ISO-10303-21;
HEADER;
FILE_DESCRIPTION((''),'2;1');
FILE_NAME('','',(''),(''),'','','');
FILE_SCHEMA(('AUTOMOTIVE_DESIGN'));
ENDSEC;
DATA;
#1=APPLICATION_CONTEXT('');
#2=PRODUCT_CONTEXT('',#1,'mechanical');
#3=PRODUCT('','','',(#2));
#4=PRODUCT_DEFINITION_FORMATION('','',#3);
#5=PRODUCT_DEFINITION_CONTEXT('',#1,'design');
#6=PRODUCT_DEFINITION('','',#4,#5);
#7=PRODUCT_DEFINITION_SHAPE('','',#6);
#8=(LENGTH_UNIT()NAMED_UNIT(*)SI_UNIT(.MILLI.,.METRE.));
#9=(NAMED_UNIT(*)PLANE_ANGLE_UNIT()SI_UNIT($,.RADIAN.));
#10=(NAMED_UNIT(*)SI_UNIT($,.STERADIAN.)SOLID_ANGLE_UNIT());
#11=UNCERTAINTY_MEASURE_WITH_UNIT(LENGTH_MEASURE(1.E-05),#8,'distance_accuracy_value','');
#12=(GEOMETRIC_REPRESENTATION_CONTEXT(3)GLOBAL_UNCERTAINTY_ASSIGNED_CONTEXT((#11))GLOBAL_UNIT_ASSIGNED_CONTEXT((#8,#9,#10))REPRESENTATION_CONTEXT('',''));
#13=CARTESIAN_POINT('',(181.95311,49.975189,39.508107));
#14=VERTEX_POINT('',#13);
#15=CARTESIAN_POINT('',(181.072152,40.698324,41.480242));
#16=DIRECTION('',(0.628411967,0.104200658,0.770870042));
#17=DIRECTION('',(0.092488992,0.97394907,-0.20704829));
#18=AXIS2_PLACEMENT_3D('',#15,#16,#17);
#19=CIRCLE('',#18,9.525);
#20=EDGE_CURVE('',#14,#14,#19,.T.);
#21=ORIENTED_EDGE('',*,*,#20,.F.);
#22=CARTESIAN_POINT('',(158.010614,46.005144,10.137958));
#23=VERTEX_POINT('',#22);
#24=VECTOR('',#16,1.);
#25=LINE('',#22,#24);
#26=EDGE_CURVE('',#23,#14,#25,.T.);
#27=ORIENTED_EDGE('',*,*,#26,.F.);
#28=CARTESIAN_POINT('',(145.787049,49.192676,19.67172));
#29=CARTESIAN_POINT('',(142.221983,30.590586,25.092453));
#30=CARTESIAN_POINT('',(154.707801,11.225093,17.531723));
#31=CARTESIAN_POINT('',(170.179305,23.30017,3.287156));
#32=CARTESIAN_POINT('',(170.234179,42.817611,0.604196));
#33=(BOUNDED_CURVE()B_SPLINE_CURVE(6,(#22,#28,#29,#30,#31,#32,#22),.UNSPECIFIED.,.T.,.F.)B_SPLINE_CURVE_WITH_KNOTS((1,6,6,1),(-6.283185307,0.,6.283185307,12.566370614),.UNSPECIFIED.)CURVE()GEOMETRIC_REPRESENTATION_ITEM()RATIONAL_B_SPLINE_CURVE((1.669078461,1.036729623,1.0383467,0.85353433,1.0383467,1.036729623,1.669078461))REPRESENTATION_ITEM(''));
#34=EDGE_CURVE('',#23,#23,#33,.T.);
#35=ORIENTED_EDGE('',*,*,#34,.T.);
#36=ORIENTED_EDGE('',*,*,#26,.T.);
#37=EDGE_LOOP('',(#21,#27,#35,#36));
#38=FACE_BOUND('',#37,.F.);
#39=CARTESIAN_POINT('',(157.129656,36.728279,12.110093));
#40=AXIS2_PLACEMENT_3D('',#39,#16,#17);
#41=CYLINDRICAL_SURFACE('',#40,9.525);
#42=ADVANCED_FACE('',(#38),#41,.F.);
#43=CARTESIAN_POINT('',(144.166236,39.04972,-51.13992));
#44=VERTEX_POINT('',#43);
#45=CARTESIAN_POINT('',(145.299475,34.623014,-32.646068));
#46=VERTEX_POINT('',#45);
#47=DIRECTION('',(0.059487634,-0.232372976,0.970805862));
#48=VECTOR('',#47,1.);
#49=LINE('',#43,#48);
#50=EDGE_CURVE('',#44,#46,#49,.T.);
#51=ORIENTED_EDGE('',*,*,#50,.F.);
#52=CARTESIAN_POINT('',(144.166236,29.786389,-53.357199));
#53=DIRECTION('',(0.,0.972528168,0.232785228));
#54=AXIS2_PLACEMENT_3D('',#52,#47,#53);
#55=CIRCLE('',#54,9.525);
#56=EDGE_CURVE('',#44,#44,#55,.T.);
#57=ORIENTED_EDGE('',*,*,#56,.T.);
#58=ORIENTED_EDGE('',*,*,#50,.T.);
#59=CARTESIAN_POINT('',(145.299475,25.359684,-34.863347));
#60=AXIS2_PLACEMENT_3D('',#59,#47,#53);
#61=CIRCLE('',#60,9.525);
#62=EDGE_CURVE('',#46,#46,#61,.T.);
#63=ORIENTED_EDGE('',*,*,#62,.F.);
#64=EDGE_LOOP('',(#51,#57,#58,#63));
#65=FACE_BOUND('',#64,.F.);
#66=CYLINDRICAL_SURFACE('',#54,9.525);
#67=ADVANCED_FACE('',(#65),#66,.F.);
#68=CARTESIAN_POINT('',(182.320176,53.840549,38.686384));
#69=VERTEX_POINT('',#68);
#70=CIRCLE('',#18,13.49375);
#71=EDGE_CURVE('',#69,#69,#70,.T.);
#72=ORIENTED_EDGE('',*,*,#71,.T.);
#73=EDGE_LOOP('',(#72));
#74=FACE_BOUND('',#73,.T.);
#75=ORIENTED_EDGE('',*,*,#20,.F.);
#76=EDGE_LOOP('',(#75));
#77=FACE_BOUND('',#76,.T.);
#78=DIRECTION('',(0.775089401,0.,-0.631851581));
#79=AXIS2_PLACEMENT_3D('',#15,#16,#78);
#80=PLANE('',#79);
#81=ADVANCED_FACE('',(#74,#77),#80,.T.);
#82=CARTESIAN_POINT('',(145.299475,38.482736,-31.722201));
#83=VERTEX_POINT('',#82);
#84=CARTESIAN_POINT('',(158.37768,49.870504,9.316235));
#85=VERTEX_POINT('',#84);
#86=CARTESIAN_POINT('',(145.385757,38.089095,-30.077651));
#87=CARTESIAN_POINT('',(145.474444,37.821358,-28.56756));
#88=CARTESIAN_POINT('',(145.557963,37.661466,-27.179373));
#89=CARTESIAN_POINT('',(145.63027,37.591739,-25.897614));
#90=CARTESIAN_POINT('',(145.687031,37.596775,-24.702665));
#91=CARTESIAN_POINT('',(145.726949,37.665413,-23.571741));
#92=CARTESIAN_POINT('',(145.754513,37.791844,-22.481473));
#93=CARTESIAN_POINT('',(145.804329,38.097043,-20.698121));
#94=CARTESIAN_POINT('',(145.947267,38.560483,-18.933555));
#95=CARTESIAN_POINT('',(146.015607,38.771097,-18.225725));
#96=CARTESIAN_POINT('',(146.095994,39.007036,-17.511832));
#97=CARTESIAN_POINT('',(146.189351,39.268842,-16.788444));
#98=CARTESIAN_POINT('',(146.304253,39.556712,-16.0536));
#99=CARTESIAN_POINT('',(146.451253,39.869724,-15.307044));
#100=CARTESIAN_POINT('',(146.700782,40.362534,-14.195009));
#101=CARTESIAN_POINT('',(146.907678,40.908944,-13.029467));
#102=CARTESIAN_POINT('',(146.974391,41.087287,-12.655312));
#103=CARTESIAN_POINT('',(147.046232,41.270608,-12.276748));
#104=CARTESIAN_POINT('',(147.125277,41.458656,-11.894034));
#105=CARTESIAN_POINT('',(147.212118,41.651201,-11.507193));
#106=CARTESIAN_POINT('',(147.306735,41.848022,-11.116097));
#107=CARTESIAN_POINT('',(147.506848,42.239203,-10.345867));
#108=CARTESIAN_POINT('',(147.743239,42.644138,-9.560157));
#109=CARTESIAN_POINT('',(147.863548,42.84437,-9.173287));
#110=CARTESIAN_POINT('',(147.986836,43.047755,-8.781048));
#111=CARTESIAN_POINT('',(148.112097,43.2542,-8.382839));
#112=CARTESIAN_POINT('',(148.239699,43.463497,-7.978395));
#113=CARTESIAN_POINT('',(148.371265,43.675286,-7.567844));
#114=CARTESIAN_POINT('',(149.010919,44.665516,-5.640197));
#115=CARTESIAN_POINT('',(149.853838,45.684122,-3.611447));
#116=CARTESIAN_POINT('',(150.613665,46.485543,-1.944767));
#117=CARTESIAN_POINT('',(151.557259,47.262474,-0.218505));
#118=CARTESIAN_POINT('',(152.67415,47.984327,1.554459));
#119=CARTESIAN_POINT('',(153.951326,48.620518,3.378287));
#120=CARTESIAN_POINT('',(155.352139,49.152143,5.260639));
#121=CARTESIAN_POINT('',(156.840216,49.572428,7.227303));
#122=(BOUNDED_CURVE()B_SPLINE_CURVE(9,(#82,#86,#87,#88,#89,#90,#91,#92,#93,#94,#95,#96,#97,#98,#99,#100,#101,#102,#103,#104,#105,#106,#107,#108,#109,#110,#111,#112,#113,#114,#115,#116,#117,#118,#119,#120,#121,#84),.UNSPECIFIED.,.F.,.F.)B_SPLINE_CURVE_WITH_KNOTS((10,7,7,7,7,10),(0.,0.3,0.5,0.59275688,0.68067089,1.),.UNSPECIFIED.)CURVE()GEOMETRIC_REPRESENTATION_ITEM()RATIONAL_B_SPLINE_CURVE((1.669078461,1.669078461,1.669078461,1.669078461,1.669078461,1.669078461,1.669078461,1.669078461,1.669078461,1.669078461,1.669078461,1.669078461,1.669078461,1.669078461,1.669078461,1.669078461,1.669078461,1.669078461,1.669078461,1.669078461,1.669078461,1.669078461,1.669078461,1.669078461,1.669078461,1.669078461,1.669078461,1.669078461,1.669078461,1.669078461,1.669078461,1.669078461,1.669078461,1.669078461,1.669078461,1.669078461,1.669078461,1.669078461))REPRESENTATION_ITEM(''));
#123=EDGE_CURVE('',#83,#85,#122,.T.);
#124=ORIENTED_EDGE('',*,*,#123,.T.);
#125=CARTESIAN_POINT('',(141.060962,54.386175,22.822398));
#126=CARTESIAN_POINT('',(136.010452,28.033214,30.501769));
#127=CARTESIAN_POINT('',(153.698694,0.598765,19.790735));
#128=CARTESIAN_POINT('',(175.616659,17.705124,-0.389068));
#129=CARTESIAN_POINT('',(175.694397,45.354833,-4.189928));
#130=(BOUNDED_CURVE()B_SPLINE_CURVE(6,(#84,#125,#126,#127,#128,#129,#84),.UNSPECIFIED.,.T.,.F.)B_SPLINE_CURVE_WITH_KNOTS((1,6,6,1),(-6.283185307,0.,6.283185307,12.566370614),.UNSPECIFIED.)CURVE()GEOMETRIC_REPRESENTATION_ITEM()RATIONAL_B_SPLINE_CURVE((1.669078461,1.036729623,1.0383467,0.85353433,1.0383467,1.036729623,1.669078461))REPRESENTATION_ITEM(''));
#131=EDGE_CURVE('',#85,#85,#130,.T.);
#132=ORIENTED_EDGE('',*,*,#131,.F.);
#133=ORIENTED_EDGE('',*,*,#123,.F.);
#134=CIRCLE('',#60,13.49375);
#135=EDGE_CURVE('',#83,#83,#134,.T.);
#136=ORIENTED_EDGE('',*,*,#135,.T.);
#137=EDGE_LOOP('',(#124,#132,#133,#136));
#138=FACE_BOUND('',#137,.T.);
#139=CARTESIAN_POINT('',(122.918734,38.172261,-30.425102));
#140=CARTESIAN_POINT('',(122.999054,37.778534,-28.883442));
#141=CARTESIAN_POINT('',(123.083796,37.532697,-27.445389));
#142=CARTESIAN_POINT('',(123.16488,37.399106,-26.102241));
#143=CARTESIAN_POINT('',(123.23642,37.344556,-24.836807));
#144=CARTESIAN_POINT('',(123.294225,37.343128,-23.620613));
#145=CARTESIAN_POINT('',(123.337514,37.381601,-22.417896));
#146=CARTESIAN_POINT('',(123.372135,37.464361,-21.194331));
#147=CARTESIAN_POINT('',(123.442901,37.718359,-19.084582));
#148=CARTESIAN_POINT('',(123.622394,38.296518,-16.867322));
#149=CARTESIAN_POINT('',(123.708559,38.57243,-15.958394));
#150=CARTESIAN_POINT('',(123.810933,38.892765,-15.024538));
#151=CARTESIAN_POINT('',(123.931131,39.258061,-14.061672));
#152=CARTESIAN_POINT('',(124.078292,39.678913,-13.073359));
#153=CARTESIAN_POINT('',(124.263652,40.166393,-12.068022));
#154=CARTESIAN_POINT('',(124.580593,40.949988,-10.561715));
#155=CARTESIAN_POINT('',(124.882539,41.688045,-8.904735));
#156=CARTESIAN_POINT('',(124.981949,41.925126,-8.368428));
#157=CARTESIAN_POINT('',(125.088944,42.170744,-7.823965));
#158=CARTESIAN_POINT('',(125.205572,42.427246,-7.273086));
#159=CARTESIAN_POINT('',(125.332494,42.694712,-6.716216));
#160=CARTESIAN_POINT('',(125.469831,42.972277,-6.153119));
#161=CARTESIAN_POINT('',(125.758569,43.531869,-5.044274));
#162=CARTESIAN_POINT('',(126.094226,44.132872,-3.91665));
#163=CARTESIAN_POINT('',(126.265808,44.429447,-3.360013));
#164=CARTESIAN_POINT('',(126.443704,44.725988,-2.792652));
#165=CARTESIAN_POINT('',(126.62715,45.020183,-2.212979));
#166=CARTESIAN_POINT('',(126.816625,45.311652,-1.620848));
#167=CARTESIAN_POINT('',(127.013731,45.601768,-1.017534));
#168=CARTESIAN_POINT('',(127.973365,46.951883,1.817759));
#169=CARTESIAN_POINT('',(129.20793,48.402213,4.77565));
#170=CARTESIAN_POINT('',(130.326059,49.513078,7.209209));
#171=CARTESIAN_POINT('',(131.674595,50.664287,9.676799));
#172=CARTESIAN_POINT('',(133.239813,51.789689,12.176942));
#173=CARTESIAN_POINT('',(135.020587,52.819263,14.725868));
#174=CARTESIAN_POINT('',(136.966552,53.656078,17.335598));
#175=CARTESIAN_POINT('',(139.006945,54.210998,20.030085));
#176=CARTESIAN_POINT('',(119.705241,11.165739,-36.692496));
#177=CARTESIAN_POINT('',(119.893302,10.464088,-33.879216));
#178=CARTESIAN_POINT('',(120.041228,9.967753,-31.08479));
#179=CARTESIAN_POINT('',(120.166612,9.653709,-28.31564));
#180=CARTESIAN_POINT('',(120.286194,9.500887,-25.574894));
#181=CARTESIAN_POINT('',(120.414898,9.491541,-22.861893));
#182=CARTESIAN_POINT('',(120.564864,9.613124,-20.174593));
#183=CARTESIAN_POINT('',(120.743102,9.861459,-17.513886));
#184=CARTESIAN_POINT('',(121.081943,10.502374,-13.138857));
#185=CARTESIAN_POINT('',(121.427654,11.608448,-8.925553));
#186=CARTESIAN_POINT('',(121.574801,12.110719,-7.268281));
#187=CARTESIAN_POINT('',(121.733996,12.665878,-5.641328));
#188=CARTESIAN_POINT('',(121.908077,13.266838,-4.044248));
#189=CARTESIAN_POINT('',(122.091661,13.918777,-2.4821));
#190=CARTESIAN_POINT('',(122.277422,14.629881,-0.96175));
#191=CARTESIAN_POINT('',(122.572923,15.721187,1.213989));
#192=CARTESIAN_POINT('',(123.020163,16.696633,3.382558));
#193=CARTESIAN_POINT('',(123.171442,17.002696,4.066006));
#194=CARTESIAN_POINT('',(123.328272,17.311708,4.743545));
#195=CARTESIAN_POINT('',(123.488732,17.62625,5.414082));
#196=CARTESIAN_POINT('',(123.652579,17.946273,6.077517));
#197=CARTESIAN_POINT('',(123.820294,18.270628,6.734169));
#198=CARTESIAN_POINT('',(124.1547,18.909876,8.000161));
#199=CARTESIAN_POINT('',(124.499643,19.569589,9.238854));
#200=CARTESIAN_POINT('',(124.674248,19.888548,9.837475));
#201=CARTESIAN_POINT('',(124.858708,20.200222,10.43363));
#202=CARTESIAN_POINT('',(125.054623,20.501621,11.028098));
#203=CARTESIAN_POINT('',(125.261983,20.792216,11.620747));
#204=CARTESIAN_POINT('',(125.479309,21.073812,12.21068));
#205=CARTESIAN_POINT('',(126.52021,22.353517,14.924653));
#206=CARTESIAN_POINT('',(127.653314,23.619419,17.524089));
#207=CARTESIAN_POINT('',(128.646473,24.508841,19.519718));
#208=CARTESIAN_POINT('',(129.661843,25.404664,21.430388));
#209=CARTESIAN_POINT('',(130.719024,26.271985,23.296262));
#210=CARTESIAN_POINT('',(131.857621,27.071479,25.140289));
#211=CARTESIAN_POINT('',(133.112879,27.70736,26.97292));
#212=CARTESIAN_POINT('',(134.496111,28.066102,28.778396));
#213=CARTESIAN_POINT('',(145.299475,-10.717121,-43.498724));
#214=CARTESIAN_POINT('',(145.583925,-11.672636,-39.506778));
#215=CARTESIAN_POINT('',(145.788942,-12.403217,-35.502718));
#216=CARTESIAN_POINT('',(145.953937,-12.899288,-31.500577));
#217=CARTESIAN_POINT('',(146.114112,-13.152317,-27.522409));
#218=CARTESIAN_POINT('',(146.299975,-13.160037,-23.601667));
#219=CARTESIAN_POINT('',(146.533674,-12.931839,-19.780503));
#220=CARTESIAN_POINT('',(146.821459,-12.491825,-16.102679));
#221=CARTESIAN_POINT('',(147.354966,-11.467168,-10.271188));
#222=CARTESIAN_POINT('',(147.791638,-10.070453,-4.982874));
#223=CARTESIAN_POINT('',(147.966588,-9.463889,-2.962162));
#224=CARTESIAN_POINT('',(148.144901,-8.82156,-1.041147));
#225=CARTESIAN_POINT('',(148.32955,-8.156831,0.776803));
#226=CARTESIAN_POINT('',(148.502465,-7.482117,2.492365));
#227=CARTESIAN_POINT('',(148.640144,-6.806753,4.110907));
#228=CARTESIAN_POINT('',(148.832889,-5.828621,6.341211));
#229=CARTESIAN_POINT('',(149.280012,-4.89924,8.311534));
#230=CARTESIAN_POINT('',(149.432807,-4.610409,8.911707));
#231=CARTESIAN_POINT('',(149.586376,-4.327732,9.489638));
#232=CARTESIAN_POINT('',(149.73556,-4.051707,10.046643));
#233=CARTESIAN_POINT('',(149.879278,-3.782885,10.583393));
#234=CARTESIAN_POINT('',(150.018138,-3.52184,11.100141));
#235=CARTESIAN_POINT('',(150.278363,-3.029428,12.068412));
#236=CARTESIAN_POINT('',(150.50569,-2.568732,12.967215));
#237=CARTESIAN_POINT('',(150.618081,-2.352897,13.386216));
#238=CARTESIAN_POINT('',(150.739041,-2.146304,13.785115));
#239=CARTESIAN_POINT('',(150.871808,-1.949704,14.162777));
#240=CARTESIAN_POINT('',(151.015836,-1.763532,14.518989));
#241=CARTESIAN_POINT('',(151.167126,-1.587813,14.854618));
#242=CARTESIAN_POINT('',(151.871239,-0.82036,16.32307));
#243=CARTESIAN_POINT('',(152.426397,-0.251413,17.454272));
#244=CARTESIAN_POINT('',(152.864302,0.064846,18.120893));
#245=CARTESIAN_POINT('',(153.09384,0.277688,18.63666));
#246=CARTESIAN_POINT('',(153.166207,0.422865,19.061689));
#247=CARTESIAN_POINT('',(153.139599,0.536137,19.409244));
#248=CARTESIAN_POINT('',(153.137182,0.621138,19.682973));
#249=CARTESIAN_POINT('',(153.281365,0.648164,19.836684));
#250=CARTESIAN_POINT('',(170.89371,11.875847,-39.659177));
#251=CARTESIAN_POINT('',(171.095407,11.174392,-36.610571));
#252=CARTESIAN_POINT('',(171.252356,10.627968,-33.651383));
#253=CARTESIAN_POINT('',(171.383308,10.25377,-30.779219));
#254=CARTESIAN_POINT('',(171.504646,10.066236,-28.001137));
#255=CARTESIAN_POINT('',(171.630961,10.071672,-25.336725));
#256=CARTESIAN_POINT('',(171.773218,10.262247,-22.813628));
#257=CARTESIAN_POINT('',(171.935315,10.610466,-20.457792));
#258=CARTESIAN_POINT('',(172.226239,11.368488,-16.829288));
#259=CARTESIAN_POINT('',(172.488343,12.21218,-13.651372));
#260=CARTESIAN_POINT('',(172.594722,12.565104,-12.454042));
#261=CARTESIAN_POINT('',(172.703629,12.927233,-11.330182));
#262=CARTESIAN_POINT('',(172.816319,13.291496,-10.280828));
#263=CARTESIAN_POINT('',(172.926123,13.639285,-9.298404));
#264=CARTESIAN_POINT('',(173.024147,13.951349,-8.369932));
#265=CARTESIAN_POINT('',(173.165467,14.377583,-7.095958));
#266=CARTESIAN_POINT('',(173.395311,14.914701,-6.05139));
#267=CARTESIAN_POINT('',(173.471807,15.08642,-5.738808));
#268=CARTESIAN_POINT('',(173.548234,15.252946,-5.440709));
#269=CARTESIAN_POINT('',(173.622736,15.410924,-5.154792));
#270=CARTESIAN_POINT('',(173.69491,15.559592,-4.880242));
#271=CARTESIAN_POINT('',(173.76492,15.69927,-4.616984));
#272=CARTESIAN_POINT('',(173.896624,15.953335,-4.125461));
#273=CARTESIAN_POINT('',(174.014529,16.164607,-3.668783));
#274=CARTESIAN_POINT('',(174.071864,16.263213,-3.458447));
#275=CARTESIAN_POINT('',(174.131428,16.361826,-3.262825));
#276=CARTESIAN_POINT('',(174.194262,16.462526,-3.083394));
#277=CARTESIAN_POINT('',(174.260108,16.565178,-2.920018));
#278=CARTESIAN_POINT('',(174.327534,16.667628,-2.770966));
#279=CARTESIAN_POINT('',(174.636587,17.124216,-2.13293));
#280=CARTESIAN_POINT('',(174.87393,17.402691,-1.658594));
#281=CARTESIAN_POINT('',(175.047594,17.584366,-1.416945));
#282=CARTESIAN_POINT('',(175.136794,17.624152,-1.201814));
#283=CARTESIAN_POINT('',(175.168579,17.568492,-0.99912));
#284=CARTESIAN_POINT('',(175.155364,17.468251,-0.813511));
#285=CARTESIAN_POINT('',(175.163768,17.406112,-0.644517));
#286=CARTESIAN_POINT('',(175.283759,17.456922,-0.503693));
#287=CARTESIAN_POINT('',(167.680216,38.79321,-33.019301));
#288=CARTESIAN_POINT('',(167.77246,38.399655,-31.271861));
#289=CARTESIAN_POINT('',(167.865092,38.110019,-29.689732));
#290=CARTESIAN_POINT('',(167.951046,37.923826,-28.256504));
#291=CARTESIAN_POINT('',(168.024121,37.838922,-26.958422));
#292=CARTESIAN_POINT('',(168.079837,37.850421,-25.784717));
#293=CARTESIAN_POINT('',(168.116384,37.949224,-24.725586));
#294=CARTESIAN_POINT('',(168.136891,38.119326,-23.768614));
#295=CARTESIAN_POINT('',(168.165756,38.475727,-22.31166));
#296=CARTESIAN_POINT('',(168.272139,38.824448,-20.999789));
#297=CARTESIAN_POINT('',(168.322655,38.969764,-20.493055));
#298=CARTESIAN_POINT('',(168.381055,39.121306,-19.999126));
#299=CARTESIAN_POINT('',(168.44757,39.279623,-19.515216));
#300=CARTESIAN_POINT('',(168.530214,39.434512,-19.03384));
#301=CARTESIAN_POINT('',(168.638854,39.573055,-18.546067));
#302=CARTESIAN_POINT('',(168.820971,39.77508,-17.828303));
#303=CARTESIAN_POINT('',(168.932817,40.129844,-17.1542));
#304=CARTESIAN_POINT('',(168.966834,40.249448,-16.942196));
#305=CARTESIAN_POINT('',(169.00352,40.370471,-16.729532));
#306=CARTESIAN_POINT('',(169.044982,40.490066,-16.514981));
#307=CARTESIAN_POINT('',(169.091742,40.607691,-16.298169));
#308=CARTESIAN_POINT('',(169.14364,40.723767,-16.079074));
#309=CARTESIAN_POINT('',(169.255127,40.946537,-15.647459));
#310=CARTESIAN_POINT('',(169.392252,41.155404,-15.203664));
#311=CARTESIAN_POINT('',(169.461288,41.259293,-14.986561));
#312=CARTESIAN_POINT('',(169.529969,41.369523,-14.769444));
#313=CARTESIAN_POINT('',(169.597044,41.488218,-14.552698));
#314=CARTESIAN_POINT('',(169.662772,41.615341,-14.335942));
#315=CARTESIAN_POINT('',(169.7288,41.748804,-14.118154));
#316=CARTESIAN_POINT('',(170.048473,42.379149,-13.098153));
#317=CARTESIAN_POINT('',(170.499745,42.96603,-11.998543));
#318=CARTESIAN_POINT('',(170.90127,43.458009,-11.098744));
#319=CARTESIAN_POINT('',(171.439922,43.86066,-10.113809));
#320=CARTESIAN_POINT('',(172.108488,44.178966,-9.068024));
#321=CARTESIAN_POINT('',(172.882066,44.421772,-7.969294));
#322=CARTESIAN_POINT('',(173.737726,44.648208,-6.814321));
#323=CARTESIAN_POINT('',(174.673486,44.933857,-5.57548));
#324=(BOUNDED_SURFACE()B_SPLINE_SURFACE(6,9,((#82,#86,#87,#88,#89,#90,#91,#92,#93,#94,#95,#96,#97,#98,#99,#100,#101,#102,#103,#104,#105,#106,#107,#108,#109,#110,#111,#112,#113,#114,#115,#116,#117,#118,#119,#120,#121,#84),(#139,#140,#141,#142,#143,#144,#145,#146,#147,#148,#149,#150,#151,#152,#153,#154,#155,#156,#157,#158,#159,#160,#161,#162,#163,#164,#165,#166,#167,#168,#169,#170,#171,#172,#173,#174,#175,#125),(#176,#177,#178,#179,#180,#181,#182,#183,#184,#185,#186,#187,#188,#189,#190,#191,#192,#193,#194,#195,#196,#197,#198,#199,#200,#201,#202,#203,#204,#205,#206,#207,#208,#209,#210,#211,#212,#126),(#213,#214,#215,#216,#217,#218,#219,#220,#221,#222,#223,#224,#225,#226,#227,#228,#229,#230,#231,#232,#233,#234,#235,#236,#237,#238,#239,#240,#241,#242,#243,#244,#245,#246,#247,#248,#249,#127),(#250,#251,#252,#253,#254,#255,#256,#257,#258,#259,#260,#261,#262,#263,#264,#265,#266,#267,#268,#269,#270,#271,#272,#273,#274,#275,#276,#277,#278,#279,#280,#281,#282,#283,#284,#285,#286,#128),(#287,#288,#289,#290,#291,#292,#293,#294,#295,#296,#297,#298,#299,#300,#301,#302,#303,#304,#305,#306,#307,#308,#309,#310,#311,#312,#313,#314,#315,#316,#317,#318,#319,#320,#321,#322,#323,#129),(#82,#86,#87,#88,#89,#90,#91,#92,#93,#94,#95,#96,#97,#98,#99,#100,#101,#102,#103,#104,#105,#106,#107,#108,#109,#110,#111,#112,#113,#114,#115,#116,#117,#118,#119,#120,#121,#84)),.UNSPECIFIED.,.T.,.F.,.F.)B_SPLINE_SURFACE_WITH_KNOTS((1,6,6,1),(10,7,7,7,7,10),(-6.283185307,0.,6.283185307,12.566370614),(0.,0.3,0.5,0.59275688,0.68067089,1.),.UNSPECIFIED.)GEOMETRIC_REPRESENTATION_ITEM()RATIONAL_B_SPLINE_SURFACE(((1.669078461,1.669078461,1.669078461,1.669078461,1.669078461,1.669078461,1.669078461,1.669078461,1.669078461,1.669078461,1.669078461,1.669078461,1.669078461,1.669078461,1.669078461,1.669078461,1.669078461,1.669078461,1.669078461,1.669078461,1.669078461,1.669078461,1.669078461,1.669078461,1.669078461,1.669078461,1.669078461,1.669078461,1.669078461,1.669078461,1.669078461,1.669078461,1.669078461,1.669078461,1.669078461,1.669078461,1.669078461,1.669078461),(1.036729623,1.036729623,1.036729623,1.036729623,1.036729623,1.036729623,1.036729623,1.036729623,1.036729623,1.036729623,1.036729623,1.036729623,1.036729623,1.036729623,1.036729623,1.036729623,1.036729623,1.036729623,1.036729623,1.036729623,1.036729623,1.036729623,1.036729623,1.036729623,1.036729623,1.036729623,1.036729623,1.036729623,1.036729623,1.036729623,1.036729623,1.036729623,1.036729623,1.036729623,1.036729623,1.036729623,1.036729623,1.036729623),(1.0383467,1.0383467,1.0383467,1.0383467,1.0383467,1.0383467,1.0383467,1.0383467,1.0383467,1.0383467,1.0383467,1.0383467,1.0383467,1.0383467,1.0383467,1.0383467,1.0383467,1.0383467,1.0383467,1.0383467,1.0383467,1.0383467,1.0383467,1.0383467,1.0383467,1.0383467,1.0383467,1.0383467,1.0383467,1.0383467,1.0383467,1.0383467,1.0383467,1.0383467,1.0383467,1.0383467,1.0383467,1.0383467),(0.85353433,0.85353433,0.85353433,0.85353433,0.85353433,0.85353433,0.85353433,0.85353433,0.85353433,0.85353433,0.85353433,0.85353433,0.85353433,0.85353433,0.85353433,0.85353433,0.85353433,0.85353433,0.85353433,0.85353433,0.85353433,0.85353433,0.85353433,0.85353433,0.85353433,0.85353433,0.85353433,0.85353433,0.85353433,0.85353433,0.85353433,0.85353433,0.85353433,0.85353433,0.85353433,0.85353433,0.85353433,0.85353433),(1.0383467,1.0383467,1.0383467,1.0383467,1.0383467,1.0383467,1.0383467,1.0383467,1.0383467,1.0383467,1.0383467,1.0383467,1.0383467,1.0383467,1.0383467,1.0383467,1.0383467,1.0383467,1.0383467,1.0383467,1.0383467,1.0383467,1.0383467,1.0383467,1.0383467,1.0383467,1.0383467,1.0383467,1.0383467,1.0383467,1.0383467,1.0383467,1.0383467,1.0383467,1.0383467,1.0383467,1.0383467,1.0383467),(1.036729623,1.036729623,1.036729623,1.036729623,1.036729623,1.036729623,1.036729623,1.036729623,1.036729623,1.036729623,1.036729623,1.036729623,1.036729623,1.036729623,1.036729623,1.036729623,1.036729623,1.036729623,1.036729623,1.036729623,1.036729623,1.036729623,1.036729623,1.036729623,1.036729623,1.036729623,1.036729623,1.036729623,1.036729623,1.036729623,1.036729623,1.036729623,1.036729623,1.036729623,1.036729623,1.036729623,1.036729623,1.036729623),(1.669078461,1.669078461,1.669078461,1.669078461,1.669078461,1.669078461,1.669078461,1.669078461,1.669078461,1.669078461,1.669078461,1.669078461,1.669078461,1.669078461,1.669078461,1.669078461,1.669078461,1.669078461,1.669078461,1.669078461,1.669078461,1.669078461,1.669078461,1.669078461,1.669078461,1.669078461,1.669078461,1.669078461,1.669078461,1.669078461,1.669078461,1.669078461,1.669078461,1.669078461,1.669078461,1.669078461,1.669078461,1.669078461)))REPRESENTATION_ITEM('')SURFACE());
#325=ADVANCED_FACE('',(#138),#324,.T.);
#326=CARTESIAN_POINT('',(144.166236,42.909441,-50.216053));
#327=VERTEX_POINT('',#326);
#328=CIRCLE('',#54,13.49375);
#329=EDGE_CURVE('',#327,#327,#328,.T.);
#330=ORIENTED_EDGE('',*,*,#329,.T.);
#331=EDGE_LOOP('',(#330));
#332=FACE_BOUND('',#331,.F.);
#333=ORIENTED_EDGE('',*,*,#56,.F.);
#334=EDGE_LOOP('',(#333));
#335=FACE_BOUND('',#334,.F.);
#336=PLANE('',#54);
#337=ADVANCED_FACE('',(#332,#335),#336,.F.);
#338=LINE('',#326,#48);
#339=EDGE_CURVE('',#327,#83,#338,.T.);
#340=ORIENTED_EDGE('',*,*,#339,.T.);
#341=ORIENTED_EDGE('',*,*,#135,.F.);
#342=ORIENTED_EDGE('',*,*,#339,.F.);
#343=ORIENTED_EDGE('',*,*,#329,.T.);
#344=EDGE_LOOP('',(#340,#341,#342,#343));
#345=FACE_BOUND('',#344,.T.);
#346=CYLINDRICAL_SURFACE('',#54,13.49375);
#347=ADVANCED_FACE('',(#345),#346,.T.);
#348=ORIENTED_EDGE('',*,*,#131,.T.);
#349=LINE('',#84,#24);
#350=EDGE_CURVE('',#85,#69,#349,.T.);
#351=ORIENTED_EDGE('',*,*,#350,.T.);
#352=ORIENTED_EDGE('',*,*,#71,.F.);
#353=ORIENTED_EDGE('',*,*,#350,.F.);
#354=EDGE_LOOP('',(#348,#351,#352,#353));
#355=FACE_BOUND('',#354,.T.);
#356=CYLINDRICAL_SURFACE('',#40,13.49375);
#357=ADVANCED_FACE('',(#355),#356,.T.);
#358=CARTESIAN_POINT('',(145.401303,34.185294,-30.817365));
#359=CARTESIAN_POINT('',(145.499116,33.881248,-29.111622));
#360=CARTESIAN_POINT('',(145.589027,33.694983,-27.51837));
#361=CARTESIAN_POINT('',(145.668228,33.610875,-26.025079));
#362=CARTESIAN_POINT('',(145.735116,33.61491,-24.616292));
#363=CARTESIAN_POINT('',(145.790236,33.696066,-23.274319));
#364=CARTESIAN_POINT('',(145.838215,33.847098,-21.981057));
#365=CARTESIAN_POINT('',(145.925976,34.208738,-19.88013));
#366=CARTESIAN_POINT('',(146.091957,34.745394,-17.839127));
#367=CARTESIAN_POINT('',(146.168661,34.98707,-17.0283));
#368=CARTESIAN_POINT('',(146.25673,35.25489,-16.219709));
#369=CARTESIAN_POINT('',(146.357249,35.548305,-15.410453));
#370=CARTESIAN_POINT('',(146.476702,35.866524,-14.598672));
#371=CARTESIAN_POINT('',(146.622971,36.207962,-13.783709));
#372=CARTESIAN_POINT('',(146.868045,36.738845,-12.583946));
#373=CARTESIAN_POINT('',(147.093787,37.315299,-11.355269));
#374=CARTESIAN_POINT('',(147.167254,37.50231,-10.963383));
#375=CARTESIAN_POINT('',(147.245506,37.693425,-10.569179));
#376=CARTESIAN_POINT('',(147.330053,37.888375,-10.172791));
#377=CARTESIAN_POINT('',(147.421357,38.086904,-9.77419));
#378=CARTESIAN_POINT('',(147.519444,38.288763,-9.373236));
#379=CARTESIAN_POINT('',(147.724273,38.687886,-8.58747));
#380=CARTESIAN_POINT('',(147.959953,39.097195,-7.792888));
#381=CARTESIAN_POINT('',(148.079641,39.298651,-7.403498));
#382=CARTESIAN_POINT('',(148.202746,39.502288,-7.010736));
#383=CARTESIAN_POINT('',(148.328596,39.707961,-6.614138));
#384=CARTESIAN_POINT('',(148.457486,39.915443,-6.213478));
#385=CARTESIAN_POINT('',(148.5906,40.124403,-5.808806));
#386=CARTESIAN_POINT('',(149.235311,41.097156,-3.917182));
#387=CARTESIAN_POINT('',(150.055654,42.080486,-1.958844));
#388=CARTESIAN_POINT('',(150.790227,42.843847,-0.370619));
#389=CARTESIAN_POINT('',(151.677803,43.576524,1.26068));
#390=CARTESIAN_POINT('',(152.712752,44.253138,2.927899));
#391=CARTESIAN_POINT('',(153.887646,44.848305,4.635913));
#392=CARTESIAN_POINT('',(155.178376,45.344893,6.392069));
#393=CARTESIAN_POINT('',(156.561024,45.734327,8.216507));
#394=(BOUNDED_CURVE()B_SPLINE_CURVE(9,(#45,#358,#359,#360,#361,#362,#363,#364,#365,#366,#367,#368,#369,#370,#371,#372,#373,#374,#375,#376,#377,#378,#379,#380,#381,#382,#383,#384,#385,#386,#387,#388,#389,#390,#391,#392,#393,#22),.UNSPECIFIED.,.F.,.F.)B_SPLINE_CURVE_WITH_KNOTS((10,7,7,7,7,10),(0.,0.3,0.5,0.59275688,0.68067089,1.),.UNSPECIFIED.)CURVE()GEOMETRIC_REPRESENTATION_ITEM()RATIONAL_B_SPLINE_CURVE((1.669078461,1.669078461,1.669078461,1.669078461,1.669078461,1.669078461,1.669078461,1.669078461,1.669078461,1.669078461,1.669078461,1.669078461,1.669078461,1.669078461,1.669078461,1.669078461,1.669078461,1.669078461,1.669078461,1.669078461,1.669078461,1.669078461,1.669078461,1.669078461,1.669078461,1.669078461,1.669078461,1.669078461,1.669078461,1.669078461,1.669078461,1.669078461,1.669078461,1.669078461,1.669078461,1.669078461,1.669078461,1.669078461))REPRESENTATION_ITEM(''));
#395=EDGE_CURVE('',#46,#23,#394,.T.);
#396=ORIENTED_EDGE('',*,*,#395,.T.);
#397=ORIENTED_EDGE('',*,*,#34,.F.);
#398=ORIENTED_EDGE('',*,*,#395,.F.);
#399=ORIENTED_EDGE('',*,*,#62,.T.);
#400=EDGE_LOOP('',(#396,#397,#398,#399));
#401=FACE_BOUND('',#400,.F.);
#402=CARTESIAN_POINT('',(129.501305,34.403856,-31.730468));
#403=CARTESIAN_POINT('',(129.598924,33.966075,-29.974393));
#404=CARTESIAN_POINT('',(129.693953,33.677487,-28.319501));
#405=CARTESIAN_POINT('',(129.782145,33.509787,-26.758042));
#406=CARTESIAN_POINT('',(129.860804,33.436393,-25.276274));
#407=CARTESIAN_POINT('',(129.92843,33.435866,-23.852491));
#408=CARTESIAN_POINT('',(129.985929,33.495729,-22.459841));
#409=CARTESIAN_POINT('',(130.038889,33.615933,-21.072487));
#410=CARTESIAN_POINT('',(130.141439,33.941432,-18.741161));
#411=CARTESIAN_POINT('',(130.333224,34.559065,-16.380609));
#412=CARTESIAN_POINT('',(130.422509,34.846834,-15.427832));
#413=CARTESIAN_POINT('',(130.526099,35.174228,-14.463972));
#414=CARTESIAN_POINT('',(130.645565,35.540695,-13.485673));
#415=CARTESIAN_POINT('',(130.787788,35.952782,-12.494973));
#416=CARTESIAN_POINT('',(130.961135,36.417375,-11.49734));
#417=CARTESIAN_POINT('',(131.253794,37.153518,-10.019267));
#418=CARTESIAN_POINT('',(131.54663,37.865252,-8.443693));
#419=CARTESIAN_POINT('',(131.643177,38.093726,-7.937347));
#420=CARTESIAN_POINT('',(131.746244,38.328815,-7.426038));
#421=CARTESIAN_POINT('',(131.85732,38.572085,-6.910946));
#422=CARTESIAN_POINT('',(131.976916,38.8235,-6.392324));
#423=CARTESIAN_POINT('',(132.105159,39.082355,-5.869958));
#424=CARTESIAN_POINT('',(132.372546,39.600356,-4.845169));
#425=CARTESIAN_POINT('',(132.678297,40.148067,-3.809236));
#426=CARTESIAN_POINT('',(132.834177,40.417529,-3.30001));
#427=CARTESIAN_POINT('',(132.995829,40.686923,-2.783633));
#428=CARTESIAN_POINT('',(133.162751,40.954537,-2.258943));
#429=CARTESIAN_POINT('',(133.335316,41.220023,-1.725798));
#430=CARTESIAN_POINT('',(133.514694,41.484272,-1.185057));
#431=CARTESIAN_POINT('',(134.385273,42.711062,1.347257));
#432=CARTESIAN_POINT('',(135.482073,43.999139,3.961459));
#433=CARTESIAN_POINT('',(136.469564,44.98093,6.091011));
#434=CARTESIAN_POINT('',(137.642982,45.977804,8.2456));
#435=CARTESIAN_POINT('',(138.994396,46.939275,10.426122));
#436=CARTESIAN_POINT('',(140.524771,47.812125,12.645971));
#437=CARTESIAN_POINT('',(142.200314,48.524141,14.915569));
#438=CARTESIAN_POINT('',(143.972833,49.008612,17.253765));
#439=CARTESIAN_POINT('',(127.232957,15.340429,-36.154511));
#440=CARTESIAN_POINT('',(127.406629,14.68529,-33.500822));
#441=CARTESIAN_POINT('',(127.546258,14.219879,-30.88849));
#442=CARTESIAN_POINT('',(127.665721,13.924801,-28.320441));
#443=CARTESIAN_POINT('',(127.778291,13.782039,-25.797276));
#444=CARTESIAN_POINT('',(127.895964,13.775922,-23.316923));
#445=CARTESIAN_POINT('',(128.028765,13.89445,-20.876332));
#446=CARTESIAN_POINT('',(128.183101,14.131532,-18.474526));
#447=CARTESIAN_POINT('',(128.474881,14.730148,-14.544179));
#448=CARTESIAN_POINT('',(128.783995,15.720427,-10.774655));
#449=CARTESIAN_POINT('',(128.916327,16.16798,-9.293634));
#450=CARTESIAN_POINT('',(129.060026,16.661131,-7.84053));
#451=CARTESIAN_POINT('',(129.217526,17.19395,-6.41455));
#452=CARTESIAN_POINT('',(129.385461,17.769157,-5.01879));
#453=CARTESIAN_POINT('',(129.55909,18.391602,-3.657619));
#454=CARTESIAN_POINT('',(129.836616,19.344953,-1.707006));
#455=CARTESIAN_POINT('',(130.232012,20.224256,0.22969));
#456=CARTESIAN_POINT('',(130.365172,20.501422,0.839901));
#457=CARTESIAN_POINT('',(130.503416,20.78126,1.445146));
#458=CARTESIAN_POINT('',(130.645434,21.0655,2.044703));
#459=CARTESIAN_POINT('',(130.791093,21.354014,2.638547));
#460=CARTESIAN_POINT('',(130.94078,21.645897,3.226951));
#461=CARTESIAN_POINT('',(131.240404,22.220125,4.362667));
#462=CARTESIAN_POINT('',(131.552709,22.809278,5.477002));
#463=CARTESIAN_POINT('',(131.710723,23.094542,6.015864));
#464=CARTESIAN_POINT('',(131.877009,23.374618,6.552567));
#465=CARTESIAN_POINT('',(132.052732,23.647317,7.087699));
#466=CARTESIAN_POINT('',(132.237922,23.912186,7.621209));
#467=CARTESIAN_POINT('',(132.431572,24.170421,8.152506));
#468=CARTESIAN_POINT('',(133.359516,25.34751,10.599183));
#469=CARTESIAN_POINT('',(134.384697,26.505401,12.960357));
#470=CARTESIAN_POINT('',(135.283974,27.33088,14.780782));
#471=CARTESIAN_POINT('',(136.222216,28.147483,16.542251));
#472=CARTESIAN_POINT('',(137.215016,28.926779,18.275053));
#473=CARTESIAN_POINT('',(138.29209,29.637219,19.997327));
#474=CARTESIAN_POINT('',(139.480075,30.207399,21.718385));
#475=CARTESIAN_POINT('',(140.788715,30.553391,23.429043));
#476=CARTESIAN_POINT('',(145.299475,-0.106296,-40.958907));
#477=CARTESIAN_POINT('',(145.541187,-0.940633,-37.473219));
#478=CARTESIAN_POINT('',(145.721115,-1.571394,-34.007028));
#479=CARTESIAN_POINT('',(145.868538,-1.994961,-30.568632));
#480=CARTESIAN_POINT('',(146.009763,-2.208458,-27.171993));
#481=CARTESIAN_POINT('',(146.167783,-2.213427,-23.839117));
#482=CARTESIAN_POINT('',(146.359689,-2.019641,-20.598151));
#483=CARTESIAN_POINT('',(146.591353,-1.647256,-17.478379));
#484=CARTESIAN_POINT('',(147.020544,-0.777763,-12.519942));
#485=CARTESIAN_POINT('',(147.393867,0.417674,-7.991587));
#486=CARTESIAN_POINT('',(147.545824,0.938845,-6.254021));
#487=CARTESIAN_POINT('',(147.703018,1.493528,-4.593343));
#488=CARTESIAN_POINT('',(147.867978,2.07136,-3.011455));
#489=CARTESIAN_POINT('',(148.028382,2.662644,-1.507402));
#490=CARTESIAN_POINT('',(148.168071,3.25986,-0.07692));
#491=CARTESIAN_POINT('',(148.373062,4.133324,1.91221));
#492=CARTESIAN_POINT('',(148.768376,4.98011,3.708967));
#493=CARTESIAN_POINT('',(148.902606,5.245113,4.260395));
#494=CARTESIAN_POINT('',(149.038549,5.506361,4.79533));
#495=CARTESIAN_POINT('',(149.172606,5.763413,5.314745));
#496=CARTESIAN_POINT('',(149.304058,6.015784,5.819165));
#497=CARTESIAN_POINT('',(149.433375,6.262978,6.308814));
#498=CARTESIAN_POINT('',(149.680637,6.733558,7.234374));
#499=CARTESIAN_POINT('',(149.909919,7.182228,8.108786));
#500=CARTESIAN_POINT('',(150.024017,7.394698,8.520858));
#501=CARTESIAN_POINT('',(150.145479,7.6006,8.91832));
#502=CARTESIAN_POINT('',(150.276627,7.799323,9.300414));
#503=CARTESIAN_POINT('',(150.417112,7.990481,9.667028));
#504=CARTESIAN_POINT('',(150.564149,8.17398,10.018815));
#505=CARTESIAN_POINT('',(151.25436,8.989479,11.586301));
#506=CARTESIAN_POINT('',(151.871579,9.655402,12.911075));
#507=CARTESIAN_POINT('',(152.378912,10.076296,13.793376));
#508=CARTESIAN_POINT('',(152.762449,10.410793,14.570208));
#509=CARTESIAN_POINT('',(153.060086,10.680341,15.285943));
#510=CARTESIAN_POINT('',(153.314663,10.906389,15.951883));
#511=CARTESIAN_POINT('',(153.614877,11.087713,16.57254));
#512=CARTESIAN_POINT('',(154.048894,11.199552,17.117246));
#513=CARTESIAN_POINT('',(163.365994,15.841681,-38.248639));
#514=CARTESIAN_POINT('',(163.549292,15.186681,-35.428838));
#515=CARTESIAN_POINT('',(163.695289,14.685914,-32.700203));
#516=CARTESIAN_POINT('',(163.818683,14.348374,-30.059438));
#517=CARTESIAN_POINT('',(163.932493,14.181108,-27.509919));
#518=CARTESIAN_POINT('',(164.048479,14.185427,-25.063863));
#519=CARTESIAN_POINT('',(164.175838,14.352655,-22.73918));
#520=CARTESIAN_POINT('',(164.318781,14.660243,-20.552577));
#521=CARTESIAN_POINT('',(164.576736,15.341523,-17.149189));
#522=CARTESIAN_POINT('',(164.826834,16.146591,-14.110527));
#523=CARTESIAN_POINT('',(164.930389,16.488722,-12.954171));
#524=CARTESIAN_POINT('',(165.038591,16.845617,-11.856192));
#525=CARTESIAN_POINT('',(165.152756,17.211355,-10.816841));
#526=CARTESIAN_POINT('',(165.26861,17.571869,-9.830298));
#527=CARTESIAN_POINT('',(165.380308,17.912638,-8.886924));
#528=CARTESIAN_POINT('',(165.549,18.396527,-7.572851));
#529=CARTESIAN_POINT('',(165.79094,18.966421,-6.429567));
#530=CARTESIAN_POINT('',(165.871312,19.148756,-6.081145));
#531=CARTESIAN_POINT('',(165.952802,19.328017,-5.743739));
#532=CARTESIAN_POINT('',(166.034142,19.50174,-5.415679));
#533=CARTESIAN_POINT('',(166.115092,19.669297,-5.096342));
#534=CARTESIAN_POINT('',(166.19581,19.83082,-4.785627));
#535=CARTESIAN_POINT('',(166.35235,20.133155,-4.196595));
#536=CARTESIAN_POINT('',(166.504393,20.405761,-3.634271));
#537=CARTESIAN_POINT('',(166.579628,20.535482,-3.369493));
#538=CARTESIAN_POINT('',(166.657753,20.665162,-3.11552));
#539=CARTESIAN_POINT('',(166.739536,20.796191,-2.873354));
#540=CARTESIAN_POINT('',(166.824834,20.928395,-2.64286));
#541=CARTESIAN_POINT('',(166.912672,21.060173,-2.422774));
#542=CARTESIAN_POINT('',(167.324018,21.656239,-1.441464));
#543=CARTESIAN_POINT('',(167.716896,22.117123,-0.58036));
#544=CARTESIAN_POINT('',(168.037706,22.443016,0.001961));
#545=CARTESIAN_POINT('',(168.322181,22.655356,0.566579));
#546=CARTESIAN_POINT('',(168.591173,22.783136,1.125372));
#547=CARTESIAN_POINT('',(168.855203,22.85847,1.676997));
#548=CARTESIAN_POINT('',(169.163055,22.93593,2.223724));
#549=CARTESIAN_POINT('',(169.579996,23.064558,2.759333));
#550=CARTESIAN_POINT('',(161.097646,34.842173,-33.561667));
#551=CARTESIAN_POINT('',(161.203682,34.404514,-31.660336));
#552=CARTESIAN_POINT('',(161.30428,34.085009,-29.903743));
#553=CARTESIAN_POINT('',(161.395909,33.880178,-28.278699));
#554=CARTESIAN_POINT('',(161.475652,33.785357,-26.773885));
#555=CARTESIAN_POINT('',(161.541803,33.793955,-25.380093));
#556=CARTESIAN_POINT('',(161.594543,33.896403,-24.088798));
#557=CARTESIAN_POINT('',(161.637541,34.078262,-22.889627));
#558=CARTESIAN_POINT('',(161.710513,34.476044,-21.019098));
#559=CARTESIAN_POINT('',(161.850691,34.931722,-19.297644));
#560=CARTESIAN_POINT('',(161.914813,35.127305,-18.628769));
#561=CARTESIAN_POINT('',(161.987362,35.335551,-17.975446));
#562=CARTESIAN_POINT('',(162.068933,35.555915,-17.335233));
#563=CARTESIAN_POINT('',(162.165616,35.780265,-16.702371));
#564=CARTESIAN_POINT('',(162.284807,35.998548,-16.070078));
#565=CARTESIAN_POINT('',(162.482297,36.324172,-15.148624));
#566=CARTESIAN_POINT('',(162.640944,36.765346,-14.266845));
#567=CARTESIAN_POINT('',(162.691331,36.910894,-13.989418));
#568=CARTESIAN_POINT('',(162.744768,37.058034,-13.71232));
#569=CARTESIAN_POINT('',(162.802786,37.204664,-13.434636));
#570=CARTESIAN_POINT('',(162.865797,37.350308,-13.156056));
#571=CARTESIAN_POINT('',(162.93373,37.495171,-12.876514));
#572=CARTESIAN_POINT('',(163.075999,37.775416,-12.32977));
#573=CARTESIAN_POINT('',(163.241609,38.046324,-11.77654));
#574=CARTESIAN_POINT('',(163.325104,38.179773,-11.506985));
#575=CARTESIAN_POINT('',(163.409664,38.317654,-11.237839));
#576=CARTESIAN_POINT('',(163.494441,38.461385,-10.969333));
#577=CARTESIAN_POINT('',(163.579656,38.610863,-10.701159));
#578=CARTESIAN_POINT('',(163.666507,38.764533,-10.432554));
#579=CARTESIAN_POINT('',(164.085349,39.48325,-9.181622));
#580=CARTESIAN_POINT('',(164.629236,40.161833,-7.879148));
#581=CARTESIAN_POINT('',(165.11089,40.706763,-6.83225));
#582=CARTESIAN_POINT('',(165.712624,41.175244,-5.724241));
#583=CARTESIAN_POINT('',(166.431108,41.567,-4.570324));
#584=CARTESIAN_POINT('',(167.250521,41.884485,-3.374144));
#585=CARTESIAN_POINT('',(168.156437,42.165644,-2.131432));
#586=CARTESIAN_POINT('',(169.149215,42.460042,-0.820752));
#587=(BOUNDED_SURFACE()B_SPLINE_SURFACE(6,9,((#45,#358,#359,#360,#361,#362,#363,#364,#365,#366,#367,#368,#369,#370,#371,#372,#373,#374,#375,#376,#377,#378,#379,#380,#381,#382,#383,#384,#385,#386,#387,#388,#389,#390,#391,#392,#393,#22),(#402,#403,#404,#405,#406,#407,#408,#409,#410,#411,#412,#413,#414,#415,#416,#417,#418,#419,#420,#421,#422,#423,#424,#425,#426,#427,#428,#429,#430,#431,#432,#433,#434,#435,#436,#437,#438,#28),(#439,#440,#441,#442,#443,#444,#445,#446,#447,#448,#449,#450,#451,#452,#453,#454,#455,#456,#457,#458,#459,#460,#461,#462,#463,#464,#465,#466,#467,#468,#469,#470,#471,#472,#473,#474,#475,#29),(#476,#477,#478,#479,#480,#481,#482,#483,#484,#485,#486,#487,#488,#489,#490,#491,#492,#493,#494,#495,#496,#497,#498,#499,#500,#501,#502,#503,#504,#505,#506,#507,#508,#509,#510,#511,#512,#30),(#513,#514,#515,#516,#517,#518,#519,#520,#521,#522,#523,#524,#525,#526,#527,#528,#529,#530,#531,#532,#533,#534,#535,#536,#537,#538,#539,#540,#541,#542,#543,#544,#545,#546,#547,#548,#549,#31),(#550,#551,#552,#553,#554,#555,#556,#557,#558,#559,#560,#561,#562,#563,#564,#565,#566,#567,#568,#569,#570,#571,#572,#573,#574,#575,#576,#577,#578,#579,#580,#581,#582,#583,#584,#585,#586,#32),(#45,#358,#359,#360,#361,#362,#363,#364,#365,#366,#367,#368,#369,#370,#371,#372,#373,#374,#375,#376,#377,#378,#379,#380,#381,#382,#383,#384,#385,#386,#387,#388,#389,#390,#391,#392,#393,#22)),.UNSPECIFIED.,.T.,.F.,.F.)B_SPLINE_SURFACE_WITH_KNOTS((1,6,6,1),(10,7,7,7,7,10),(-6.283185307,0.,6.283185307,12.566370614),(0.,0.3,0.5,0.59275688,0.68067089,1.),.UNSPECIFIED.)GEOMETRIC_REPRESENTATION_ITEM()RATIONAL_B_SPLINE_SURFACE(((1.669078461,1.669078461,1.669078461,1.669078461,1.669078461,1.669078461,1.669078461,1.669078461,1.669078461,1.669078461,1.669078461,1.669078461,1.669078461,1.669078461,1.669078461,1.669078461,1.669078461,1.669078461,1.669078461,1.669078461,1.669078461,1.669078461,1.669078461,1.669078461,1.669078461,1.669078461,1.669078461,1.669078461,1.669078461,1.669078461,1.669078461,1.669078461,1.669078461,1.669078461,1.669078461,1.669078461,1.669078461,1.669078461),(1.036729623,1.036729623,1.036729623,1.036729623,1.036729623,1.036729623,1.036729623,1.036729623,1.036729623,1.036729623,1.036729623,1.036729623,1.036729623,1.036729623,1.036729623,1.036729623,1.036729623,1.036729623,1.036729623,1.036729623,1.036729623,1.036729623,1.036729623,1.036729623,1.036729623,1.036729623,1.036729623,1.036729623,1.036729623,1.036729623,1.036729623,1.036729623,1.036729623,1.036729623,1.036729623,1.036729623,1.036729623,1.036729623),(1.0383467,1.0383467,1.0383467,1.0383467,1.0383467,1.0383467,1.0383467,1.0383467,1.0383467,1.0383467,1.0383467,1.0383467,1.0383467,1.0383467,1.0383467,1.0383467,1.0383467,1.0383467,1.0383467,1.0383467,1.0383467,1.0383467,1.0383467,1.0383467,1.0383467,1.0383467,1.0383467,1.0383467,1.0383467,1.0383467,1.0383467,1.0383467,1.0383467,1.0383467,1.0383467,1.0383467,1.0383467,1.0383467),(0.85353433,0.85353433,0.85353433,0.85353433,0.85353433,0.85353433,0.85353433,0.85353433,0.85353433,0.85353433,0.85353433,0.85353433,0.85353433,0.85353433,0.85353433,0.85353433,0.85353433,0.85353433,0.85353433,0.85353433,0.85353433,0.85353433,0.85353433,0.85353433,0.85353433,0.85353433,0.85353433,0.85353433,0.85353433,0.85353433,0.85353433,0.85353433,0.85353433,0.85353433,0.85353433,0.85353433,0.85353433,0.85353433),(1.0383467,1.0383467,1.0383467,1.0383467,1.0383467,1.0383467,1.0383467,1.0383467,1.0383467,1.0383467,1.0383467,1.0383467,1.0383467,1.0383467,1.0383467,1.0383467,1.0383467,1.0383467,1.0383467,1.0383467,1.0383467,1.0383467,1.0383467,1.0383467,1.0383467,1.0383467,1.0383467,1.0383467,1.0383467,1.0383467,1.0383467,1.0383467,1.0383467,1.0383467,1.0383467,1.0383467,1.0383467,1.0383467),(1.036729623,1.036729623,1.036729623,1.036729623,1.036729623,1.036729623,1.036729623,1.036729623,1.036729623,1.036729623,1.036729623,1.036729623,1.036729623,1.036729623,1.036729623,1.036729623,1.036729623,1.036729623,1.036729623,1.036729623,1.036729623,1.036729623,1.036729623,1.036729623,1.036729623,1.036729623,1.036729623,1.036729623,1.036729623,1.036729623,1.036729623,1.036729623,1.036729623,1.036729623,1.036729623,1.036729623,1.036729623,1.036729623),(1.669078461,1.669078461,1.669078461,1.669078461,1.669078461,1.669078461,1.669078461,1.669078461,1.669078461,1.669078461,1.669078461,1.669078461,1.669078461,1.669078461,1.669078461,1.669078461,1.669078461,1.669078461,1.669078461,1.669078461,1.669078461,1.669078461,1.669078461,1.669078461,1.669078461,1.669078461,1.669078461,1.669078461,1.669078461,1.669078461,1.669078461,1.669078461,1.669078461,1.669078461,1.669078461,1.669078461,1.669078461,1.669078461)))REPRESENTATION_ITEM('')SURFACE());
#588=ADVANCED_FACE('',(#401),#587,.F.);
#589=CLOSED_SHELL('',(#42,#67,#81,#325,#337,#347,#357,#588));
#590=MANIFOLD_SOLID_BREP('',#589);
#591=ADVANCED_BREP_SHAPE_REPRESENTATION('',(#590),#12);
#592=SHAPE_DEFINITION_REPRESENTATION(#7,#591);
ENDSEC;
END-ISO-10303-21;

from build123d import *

# Parameters (mm, degrees)
SWEEP1_PROFILE_R     = 13.49375
CUT_SWEEP1_PROFILE_R = 9.525


with BuildPart() as part:
    # Sweep1: sweep along a curve in space
    with BuildLine() as sweep1_path:
        Line((144.16623583, 29.78638886, -53.357198813), (145.299475263, 25.359683675, -34.863347144))
        add(Edge.make_bspline(
            [(145.299475263, 25.359683675, -34.863347144), (146.690863379, 19.924587782, -12.156649263), (145.49252871, 34.79865885, -2.165117432), (157.129656366, 36.72827895, 12.110093025)],
            knots=[0, 0, 0, 0, 1, 1, 1, 1], degree=3))
        Line((157.129656366, 36.72827895, 12.110093025), (181.072152323, 40.698324032, 41.480241636))
    # Sweep1 profile (on start of the path) → Sweep1 (sweep)
    with BuildSketch(Plane(origin=(144.16623583, 29.78638886, -53.357198813), x_dir=(0, 0.9725281679518014, 0.23278522835505014), z_dir=(0.059487634281804834, -0.23237297561799386, 0.9708058619363572))):
        Circle(SWEEP1_PROFILE_R)
    sweep(path=sweep1_path.line)

    # Cut-Sweep1: sweep along a curve in space
    with BuildLine() as cut_sweep1_path:
        Line((144.16623583, 29.78638886, -53.357198813), (145.299475263, 25.359683675, -34.863347144))
        add(Edge.make_bspline(
            [(145.299475263, 25.359683675, -34.863347144), (146.690863379, 19.924587782, -12.156649263), (145.49252871, 34.79865885, -2.165117432), (157.129656366, 36.72827895, 12.110093025)],
            knots=[0, 0, 0, 0, 1, 1, 1, 1], degree=3))
        Line((157.129656366, 36.72827895, 12.110093025), (181.072152323, 40.698324032, 41.480241636))
    # Cut-Sweep1 profile (on start of the path) → Cut-Sweep1 (sweep, cut)
    with BuildSketch(Plane(origin=(144.16623583, 29.78638886, -53.357198813), x_dir=(0, 0.9725281679518014, 0.23278522835505014), z_dir=(0.059487634281804834, -0.23237297561799386, 0.9708058619363572))):
        Circle(CUT_SWEEP1_PROFILE_R)
    sweep(path=cut_sweep1_path.line, mode=Mode.SUBTRACT)


solid = part.part
